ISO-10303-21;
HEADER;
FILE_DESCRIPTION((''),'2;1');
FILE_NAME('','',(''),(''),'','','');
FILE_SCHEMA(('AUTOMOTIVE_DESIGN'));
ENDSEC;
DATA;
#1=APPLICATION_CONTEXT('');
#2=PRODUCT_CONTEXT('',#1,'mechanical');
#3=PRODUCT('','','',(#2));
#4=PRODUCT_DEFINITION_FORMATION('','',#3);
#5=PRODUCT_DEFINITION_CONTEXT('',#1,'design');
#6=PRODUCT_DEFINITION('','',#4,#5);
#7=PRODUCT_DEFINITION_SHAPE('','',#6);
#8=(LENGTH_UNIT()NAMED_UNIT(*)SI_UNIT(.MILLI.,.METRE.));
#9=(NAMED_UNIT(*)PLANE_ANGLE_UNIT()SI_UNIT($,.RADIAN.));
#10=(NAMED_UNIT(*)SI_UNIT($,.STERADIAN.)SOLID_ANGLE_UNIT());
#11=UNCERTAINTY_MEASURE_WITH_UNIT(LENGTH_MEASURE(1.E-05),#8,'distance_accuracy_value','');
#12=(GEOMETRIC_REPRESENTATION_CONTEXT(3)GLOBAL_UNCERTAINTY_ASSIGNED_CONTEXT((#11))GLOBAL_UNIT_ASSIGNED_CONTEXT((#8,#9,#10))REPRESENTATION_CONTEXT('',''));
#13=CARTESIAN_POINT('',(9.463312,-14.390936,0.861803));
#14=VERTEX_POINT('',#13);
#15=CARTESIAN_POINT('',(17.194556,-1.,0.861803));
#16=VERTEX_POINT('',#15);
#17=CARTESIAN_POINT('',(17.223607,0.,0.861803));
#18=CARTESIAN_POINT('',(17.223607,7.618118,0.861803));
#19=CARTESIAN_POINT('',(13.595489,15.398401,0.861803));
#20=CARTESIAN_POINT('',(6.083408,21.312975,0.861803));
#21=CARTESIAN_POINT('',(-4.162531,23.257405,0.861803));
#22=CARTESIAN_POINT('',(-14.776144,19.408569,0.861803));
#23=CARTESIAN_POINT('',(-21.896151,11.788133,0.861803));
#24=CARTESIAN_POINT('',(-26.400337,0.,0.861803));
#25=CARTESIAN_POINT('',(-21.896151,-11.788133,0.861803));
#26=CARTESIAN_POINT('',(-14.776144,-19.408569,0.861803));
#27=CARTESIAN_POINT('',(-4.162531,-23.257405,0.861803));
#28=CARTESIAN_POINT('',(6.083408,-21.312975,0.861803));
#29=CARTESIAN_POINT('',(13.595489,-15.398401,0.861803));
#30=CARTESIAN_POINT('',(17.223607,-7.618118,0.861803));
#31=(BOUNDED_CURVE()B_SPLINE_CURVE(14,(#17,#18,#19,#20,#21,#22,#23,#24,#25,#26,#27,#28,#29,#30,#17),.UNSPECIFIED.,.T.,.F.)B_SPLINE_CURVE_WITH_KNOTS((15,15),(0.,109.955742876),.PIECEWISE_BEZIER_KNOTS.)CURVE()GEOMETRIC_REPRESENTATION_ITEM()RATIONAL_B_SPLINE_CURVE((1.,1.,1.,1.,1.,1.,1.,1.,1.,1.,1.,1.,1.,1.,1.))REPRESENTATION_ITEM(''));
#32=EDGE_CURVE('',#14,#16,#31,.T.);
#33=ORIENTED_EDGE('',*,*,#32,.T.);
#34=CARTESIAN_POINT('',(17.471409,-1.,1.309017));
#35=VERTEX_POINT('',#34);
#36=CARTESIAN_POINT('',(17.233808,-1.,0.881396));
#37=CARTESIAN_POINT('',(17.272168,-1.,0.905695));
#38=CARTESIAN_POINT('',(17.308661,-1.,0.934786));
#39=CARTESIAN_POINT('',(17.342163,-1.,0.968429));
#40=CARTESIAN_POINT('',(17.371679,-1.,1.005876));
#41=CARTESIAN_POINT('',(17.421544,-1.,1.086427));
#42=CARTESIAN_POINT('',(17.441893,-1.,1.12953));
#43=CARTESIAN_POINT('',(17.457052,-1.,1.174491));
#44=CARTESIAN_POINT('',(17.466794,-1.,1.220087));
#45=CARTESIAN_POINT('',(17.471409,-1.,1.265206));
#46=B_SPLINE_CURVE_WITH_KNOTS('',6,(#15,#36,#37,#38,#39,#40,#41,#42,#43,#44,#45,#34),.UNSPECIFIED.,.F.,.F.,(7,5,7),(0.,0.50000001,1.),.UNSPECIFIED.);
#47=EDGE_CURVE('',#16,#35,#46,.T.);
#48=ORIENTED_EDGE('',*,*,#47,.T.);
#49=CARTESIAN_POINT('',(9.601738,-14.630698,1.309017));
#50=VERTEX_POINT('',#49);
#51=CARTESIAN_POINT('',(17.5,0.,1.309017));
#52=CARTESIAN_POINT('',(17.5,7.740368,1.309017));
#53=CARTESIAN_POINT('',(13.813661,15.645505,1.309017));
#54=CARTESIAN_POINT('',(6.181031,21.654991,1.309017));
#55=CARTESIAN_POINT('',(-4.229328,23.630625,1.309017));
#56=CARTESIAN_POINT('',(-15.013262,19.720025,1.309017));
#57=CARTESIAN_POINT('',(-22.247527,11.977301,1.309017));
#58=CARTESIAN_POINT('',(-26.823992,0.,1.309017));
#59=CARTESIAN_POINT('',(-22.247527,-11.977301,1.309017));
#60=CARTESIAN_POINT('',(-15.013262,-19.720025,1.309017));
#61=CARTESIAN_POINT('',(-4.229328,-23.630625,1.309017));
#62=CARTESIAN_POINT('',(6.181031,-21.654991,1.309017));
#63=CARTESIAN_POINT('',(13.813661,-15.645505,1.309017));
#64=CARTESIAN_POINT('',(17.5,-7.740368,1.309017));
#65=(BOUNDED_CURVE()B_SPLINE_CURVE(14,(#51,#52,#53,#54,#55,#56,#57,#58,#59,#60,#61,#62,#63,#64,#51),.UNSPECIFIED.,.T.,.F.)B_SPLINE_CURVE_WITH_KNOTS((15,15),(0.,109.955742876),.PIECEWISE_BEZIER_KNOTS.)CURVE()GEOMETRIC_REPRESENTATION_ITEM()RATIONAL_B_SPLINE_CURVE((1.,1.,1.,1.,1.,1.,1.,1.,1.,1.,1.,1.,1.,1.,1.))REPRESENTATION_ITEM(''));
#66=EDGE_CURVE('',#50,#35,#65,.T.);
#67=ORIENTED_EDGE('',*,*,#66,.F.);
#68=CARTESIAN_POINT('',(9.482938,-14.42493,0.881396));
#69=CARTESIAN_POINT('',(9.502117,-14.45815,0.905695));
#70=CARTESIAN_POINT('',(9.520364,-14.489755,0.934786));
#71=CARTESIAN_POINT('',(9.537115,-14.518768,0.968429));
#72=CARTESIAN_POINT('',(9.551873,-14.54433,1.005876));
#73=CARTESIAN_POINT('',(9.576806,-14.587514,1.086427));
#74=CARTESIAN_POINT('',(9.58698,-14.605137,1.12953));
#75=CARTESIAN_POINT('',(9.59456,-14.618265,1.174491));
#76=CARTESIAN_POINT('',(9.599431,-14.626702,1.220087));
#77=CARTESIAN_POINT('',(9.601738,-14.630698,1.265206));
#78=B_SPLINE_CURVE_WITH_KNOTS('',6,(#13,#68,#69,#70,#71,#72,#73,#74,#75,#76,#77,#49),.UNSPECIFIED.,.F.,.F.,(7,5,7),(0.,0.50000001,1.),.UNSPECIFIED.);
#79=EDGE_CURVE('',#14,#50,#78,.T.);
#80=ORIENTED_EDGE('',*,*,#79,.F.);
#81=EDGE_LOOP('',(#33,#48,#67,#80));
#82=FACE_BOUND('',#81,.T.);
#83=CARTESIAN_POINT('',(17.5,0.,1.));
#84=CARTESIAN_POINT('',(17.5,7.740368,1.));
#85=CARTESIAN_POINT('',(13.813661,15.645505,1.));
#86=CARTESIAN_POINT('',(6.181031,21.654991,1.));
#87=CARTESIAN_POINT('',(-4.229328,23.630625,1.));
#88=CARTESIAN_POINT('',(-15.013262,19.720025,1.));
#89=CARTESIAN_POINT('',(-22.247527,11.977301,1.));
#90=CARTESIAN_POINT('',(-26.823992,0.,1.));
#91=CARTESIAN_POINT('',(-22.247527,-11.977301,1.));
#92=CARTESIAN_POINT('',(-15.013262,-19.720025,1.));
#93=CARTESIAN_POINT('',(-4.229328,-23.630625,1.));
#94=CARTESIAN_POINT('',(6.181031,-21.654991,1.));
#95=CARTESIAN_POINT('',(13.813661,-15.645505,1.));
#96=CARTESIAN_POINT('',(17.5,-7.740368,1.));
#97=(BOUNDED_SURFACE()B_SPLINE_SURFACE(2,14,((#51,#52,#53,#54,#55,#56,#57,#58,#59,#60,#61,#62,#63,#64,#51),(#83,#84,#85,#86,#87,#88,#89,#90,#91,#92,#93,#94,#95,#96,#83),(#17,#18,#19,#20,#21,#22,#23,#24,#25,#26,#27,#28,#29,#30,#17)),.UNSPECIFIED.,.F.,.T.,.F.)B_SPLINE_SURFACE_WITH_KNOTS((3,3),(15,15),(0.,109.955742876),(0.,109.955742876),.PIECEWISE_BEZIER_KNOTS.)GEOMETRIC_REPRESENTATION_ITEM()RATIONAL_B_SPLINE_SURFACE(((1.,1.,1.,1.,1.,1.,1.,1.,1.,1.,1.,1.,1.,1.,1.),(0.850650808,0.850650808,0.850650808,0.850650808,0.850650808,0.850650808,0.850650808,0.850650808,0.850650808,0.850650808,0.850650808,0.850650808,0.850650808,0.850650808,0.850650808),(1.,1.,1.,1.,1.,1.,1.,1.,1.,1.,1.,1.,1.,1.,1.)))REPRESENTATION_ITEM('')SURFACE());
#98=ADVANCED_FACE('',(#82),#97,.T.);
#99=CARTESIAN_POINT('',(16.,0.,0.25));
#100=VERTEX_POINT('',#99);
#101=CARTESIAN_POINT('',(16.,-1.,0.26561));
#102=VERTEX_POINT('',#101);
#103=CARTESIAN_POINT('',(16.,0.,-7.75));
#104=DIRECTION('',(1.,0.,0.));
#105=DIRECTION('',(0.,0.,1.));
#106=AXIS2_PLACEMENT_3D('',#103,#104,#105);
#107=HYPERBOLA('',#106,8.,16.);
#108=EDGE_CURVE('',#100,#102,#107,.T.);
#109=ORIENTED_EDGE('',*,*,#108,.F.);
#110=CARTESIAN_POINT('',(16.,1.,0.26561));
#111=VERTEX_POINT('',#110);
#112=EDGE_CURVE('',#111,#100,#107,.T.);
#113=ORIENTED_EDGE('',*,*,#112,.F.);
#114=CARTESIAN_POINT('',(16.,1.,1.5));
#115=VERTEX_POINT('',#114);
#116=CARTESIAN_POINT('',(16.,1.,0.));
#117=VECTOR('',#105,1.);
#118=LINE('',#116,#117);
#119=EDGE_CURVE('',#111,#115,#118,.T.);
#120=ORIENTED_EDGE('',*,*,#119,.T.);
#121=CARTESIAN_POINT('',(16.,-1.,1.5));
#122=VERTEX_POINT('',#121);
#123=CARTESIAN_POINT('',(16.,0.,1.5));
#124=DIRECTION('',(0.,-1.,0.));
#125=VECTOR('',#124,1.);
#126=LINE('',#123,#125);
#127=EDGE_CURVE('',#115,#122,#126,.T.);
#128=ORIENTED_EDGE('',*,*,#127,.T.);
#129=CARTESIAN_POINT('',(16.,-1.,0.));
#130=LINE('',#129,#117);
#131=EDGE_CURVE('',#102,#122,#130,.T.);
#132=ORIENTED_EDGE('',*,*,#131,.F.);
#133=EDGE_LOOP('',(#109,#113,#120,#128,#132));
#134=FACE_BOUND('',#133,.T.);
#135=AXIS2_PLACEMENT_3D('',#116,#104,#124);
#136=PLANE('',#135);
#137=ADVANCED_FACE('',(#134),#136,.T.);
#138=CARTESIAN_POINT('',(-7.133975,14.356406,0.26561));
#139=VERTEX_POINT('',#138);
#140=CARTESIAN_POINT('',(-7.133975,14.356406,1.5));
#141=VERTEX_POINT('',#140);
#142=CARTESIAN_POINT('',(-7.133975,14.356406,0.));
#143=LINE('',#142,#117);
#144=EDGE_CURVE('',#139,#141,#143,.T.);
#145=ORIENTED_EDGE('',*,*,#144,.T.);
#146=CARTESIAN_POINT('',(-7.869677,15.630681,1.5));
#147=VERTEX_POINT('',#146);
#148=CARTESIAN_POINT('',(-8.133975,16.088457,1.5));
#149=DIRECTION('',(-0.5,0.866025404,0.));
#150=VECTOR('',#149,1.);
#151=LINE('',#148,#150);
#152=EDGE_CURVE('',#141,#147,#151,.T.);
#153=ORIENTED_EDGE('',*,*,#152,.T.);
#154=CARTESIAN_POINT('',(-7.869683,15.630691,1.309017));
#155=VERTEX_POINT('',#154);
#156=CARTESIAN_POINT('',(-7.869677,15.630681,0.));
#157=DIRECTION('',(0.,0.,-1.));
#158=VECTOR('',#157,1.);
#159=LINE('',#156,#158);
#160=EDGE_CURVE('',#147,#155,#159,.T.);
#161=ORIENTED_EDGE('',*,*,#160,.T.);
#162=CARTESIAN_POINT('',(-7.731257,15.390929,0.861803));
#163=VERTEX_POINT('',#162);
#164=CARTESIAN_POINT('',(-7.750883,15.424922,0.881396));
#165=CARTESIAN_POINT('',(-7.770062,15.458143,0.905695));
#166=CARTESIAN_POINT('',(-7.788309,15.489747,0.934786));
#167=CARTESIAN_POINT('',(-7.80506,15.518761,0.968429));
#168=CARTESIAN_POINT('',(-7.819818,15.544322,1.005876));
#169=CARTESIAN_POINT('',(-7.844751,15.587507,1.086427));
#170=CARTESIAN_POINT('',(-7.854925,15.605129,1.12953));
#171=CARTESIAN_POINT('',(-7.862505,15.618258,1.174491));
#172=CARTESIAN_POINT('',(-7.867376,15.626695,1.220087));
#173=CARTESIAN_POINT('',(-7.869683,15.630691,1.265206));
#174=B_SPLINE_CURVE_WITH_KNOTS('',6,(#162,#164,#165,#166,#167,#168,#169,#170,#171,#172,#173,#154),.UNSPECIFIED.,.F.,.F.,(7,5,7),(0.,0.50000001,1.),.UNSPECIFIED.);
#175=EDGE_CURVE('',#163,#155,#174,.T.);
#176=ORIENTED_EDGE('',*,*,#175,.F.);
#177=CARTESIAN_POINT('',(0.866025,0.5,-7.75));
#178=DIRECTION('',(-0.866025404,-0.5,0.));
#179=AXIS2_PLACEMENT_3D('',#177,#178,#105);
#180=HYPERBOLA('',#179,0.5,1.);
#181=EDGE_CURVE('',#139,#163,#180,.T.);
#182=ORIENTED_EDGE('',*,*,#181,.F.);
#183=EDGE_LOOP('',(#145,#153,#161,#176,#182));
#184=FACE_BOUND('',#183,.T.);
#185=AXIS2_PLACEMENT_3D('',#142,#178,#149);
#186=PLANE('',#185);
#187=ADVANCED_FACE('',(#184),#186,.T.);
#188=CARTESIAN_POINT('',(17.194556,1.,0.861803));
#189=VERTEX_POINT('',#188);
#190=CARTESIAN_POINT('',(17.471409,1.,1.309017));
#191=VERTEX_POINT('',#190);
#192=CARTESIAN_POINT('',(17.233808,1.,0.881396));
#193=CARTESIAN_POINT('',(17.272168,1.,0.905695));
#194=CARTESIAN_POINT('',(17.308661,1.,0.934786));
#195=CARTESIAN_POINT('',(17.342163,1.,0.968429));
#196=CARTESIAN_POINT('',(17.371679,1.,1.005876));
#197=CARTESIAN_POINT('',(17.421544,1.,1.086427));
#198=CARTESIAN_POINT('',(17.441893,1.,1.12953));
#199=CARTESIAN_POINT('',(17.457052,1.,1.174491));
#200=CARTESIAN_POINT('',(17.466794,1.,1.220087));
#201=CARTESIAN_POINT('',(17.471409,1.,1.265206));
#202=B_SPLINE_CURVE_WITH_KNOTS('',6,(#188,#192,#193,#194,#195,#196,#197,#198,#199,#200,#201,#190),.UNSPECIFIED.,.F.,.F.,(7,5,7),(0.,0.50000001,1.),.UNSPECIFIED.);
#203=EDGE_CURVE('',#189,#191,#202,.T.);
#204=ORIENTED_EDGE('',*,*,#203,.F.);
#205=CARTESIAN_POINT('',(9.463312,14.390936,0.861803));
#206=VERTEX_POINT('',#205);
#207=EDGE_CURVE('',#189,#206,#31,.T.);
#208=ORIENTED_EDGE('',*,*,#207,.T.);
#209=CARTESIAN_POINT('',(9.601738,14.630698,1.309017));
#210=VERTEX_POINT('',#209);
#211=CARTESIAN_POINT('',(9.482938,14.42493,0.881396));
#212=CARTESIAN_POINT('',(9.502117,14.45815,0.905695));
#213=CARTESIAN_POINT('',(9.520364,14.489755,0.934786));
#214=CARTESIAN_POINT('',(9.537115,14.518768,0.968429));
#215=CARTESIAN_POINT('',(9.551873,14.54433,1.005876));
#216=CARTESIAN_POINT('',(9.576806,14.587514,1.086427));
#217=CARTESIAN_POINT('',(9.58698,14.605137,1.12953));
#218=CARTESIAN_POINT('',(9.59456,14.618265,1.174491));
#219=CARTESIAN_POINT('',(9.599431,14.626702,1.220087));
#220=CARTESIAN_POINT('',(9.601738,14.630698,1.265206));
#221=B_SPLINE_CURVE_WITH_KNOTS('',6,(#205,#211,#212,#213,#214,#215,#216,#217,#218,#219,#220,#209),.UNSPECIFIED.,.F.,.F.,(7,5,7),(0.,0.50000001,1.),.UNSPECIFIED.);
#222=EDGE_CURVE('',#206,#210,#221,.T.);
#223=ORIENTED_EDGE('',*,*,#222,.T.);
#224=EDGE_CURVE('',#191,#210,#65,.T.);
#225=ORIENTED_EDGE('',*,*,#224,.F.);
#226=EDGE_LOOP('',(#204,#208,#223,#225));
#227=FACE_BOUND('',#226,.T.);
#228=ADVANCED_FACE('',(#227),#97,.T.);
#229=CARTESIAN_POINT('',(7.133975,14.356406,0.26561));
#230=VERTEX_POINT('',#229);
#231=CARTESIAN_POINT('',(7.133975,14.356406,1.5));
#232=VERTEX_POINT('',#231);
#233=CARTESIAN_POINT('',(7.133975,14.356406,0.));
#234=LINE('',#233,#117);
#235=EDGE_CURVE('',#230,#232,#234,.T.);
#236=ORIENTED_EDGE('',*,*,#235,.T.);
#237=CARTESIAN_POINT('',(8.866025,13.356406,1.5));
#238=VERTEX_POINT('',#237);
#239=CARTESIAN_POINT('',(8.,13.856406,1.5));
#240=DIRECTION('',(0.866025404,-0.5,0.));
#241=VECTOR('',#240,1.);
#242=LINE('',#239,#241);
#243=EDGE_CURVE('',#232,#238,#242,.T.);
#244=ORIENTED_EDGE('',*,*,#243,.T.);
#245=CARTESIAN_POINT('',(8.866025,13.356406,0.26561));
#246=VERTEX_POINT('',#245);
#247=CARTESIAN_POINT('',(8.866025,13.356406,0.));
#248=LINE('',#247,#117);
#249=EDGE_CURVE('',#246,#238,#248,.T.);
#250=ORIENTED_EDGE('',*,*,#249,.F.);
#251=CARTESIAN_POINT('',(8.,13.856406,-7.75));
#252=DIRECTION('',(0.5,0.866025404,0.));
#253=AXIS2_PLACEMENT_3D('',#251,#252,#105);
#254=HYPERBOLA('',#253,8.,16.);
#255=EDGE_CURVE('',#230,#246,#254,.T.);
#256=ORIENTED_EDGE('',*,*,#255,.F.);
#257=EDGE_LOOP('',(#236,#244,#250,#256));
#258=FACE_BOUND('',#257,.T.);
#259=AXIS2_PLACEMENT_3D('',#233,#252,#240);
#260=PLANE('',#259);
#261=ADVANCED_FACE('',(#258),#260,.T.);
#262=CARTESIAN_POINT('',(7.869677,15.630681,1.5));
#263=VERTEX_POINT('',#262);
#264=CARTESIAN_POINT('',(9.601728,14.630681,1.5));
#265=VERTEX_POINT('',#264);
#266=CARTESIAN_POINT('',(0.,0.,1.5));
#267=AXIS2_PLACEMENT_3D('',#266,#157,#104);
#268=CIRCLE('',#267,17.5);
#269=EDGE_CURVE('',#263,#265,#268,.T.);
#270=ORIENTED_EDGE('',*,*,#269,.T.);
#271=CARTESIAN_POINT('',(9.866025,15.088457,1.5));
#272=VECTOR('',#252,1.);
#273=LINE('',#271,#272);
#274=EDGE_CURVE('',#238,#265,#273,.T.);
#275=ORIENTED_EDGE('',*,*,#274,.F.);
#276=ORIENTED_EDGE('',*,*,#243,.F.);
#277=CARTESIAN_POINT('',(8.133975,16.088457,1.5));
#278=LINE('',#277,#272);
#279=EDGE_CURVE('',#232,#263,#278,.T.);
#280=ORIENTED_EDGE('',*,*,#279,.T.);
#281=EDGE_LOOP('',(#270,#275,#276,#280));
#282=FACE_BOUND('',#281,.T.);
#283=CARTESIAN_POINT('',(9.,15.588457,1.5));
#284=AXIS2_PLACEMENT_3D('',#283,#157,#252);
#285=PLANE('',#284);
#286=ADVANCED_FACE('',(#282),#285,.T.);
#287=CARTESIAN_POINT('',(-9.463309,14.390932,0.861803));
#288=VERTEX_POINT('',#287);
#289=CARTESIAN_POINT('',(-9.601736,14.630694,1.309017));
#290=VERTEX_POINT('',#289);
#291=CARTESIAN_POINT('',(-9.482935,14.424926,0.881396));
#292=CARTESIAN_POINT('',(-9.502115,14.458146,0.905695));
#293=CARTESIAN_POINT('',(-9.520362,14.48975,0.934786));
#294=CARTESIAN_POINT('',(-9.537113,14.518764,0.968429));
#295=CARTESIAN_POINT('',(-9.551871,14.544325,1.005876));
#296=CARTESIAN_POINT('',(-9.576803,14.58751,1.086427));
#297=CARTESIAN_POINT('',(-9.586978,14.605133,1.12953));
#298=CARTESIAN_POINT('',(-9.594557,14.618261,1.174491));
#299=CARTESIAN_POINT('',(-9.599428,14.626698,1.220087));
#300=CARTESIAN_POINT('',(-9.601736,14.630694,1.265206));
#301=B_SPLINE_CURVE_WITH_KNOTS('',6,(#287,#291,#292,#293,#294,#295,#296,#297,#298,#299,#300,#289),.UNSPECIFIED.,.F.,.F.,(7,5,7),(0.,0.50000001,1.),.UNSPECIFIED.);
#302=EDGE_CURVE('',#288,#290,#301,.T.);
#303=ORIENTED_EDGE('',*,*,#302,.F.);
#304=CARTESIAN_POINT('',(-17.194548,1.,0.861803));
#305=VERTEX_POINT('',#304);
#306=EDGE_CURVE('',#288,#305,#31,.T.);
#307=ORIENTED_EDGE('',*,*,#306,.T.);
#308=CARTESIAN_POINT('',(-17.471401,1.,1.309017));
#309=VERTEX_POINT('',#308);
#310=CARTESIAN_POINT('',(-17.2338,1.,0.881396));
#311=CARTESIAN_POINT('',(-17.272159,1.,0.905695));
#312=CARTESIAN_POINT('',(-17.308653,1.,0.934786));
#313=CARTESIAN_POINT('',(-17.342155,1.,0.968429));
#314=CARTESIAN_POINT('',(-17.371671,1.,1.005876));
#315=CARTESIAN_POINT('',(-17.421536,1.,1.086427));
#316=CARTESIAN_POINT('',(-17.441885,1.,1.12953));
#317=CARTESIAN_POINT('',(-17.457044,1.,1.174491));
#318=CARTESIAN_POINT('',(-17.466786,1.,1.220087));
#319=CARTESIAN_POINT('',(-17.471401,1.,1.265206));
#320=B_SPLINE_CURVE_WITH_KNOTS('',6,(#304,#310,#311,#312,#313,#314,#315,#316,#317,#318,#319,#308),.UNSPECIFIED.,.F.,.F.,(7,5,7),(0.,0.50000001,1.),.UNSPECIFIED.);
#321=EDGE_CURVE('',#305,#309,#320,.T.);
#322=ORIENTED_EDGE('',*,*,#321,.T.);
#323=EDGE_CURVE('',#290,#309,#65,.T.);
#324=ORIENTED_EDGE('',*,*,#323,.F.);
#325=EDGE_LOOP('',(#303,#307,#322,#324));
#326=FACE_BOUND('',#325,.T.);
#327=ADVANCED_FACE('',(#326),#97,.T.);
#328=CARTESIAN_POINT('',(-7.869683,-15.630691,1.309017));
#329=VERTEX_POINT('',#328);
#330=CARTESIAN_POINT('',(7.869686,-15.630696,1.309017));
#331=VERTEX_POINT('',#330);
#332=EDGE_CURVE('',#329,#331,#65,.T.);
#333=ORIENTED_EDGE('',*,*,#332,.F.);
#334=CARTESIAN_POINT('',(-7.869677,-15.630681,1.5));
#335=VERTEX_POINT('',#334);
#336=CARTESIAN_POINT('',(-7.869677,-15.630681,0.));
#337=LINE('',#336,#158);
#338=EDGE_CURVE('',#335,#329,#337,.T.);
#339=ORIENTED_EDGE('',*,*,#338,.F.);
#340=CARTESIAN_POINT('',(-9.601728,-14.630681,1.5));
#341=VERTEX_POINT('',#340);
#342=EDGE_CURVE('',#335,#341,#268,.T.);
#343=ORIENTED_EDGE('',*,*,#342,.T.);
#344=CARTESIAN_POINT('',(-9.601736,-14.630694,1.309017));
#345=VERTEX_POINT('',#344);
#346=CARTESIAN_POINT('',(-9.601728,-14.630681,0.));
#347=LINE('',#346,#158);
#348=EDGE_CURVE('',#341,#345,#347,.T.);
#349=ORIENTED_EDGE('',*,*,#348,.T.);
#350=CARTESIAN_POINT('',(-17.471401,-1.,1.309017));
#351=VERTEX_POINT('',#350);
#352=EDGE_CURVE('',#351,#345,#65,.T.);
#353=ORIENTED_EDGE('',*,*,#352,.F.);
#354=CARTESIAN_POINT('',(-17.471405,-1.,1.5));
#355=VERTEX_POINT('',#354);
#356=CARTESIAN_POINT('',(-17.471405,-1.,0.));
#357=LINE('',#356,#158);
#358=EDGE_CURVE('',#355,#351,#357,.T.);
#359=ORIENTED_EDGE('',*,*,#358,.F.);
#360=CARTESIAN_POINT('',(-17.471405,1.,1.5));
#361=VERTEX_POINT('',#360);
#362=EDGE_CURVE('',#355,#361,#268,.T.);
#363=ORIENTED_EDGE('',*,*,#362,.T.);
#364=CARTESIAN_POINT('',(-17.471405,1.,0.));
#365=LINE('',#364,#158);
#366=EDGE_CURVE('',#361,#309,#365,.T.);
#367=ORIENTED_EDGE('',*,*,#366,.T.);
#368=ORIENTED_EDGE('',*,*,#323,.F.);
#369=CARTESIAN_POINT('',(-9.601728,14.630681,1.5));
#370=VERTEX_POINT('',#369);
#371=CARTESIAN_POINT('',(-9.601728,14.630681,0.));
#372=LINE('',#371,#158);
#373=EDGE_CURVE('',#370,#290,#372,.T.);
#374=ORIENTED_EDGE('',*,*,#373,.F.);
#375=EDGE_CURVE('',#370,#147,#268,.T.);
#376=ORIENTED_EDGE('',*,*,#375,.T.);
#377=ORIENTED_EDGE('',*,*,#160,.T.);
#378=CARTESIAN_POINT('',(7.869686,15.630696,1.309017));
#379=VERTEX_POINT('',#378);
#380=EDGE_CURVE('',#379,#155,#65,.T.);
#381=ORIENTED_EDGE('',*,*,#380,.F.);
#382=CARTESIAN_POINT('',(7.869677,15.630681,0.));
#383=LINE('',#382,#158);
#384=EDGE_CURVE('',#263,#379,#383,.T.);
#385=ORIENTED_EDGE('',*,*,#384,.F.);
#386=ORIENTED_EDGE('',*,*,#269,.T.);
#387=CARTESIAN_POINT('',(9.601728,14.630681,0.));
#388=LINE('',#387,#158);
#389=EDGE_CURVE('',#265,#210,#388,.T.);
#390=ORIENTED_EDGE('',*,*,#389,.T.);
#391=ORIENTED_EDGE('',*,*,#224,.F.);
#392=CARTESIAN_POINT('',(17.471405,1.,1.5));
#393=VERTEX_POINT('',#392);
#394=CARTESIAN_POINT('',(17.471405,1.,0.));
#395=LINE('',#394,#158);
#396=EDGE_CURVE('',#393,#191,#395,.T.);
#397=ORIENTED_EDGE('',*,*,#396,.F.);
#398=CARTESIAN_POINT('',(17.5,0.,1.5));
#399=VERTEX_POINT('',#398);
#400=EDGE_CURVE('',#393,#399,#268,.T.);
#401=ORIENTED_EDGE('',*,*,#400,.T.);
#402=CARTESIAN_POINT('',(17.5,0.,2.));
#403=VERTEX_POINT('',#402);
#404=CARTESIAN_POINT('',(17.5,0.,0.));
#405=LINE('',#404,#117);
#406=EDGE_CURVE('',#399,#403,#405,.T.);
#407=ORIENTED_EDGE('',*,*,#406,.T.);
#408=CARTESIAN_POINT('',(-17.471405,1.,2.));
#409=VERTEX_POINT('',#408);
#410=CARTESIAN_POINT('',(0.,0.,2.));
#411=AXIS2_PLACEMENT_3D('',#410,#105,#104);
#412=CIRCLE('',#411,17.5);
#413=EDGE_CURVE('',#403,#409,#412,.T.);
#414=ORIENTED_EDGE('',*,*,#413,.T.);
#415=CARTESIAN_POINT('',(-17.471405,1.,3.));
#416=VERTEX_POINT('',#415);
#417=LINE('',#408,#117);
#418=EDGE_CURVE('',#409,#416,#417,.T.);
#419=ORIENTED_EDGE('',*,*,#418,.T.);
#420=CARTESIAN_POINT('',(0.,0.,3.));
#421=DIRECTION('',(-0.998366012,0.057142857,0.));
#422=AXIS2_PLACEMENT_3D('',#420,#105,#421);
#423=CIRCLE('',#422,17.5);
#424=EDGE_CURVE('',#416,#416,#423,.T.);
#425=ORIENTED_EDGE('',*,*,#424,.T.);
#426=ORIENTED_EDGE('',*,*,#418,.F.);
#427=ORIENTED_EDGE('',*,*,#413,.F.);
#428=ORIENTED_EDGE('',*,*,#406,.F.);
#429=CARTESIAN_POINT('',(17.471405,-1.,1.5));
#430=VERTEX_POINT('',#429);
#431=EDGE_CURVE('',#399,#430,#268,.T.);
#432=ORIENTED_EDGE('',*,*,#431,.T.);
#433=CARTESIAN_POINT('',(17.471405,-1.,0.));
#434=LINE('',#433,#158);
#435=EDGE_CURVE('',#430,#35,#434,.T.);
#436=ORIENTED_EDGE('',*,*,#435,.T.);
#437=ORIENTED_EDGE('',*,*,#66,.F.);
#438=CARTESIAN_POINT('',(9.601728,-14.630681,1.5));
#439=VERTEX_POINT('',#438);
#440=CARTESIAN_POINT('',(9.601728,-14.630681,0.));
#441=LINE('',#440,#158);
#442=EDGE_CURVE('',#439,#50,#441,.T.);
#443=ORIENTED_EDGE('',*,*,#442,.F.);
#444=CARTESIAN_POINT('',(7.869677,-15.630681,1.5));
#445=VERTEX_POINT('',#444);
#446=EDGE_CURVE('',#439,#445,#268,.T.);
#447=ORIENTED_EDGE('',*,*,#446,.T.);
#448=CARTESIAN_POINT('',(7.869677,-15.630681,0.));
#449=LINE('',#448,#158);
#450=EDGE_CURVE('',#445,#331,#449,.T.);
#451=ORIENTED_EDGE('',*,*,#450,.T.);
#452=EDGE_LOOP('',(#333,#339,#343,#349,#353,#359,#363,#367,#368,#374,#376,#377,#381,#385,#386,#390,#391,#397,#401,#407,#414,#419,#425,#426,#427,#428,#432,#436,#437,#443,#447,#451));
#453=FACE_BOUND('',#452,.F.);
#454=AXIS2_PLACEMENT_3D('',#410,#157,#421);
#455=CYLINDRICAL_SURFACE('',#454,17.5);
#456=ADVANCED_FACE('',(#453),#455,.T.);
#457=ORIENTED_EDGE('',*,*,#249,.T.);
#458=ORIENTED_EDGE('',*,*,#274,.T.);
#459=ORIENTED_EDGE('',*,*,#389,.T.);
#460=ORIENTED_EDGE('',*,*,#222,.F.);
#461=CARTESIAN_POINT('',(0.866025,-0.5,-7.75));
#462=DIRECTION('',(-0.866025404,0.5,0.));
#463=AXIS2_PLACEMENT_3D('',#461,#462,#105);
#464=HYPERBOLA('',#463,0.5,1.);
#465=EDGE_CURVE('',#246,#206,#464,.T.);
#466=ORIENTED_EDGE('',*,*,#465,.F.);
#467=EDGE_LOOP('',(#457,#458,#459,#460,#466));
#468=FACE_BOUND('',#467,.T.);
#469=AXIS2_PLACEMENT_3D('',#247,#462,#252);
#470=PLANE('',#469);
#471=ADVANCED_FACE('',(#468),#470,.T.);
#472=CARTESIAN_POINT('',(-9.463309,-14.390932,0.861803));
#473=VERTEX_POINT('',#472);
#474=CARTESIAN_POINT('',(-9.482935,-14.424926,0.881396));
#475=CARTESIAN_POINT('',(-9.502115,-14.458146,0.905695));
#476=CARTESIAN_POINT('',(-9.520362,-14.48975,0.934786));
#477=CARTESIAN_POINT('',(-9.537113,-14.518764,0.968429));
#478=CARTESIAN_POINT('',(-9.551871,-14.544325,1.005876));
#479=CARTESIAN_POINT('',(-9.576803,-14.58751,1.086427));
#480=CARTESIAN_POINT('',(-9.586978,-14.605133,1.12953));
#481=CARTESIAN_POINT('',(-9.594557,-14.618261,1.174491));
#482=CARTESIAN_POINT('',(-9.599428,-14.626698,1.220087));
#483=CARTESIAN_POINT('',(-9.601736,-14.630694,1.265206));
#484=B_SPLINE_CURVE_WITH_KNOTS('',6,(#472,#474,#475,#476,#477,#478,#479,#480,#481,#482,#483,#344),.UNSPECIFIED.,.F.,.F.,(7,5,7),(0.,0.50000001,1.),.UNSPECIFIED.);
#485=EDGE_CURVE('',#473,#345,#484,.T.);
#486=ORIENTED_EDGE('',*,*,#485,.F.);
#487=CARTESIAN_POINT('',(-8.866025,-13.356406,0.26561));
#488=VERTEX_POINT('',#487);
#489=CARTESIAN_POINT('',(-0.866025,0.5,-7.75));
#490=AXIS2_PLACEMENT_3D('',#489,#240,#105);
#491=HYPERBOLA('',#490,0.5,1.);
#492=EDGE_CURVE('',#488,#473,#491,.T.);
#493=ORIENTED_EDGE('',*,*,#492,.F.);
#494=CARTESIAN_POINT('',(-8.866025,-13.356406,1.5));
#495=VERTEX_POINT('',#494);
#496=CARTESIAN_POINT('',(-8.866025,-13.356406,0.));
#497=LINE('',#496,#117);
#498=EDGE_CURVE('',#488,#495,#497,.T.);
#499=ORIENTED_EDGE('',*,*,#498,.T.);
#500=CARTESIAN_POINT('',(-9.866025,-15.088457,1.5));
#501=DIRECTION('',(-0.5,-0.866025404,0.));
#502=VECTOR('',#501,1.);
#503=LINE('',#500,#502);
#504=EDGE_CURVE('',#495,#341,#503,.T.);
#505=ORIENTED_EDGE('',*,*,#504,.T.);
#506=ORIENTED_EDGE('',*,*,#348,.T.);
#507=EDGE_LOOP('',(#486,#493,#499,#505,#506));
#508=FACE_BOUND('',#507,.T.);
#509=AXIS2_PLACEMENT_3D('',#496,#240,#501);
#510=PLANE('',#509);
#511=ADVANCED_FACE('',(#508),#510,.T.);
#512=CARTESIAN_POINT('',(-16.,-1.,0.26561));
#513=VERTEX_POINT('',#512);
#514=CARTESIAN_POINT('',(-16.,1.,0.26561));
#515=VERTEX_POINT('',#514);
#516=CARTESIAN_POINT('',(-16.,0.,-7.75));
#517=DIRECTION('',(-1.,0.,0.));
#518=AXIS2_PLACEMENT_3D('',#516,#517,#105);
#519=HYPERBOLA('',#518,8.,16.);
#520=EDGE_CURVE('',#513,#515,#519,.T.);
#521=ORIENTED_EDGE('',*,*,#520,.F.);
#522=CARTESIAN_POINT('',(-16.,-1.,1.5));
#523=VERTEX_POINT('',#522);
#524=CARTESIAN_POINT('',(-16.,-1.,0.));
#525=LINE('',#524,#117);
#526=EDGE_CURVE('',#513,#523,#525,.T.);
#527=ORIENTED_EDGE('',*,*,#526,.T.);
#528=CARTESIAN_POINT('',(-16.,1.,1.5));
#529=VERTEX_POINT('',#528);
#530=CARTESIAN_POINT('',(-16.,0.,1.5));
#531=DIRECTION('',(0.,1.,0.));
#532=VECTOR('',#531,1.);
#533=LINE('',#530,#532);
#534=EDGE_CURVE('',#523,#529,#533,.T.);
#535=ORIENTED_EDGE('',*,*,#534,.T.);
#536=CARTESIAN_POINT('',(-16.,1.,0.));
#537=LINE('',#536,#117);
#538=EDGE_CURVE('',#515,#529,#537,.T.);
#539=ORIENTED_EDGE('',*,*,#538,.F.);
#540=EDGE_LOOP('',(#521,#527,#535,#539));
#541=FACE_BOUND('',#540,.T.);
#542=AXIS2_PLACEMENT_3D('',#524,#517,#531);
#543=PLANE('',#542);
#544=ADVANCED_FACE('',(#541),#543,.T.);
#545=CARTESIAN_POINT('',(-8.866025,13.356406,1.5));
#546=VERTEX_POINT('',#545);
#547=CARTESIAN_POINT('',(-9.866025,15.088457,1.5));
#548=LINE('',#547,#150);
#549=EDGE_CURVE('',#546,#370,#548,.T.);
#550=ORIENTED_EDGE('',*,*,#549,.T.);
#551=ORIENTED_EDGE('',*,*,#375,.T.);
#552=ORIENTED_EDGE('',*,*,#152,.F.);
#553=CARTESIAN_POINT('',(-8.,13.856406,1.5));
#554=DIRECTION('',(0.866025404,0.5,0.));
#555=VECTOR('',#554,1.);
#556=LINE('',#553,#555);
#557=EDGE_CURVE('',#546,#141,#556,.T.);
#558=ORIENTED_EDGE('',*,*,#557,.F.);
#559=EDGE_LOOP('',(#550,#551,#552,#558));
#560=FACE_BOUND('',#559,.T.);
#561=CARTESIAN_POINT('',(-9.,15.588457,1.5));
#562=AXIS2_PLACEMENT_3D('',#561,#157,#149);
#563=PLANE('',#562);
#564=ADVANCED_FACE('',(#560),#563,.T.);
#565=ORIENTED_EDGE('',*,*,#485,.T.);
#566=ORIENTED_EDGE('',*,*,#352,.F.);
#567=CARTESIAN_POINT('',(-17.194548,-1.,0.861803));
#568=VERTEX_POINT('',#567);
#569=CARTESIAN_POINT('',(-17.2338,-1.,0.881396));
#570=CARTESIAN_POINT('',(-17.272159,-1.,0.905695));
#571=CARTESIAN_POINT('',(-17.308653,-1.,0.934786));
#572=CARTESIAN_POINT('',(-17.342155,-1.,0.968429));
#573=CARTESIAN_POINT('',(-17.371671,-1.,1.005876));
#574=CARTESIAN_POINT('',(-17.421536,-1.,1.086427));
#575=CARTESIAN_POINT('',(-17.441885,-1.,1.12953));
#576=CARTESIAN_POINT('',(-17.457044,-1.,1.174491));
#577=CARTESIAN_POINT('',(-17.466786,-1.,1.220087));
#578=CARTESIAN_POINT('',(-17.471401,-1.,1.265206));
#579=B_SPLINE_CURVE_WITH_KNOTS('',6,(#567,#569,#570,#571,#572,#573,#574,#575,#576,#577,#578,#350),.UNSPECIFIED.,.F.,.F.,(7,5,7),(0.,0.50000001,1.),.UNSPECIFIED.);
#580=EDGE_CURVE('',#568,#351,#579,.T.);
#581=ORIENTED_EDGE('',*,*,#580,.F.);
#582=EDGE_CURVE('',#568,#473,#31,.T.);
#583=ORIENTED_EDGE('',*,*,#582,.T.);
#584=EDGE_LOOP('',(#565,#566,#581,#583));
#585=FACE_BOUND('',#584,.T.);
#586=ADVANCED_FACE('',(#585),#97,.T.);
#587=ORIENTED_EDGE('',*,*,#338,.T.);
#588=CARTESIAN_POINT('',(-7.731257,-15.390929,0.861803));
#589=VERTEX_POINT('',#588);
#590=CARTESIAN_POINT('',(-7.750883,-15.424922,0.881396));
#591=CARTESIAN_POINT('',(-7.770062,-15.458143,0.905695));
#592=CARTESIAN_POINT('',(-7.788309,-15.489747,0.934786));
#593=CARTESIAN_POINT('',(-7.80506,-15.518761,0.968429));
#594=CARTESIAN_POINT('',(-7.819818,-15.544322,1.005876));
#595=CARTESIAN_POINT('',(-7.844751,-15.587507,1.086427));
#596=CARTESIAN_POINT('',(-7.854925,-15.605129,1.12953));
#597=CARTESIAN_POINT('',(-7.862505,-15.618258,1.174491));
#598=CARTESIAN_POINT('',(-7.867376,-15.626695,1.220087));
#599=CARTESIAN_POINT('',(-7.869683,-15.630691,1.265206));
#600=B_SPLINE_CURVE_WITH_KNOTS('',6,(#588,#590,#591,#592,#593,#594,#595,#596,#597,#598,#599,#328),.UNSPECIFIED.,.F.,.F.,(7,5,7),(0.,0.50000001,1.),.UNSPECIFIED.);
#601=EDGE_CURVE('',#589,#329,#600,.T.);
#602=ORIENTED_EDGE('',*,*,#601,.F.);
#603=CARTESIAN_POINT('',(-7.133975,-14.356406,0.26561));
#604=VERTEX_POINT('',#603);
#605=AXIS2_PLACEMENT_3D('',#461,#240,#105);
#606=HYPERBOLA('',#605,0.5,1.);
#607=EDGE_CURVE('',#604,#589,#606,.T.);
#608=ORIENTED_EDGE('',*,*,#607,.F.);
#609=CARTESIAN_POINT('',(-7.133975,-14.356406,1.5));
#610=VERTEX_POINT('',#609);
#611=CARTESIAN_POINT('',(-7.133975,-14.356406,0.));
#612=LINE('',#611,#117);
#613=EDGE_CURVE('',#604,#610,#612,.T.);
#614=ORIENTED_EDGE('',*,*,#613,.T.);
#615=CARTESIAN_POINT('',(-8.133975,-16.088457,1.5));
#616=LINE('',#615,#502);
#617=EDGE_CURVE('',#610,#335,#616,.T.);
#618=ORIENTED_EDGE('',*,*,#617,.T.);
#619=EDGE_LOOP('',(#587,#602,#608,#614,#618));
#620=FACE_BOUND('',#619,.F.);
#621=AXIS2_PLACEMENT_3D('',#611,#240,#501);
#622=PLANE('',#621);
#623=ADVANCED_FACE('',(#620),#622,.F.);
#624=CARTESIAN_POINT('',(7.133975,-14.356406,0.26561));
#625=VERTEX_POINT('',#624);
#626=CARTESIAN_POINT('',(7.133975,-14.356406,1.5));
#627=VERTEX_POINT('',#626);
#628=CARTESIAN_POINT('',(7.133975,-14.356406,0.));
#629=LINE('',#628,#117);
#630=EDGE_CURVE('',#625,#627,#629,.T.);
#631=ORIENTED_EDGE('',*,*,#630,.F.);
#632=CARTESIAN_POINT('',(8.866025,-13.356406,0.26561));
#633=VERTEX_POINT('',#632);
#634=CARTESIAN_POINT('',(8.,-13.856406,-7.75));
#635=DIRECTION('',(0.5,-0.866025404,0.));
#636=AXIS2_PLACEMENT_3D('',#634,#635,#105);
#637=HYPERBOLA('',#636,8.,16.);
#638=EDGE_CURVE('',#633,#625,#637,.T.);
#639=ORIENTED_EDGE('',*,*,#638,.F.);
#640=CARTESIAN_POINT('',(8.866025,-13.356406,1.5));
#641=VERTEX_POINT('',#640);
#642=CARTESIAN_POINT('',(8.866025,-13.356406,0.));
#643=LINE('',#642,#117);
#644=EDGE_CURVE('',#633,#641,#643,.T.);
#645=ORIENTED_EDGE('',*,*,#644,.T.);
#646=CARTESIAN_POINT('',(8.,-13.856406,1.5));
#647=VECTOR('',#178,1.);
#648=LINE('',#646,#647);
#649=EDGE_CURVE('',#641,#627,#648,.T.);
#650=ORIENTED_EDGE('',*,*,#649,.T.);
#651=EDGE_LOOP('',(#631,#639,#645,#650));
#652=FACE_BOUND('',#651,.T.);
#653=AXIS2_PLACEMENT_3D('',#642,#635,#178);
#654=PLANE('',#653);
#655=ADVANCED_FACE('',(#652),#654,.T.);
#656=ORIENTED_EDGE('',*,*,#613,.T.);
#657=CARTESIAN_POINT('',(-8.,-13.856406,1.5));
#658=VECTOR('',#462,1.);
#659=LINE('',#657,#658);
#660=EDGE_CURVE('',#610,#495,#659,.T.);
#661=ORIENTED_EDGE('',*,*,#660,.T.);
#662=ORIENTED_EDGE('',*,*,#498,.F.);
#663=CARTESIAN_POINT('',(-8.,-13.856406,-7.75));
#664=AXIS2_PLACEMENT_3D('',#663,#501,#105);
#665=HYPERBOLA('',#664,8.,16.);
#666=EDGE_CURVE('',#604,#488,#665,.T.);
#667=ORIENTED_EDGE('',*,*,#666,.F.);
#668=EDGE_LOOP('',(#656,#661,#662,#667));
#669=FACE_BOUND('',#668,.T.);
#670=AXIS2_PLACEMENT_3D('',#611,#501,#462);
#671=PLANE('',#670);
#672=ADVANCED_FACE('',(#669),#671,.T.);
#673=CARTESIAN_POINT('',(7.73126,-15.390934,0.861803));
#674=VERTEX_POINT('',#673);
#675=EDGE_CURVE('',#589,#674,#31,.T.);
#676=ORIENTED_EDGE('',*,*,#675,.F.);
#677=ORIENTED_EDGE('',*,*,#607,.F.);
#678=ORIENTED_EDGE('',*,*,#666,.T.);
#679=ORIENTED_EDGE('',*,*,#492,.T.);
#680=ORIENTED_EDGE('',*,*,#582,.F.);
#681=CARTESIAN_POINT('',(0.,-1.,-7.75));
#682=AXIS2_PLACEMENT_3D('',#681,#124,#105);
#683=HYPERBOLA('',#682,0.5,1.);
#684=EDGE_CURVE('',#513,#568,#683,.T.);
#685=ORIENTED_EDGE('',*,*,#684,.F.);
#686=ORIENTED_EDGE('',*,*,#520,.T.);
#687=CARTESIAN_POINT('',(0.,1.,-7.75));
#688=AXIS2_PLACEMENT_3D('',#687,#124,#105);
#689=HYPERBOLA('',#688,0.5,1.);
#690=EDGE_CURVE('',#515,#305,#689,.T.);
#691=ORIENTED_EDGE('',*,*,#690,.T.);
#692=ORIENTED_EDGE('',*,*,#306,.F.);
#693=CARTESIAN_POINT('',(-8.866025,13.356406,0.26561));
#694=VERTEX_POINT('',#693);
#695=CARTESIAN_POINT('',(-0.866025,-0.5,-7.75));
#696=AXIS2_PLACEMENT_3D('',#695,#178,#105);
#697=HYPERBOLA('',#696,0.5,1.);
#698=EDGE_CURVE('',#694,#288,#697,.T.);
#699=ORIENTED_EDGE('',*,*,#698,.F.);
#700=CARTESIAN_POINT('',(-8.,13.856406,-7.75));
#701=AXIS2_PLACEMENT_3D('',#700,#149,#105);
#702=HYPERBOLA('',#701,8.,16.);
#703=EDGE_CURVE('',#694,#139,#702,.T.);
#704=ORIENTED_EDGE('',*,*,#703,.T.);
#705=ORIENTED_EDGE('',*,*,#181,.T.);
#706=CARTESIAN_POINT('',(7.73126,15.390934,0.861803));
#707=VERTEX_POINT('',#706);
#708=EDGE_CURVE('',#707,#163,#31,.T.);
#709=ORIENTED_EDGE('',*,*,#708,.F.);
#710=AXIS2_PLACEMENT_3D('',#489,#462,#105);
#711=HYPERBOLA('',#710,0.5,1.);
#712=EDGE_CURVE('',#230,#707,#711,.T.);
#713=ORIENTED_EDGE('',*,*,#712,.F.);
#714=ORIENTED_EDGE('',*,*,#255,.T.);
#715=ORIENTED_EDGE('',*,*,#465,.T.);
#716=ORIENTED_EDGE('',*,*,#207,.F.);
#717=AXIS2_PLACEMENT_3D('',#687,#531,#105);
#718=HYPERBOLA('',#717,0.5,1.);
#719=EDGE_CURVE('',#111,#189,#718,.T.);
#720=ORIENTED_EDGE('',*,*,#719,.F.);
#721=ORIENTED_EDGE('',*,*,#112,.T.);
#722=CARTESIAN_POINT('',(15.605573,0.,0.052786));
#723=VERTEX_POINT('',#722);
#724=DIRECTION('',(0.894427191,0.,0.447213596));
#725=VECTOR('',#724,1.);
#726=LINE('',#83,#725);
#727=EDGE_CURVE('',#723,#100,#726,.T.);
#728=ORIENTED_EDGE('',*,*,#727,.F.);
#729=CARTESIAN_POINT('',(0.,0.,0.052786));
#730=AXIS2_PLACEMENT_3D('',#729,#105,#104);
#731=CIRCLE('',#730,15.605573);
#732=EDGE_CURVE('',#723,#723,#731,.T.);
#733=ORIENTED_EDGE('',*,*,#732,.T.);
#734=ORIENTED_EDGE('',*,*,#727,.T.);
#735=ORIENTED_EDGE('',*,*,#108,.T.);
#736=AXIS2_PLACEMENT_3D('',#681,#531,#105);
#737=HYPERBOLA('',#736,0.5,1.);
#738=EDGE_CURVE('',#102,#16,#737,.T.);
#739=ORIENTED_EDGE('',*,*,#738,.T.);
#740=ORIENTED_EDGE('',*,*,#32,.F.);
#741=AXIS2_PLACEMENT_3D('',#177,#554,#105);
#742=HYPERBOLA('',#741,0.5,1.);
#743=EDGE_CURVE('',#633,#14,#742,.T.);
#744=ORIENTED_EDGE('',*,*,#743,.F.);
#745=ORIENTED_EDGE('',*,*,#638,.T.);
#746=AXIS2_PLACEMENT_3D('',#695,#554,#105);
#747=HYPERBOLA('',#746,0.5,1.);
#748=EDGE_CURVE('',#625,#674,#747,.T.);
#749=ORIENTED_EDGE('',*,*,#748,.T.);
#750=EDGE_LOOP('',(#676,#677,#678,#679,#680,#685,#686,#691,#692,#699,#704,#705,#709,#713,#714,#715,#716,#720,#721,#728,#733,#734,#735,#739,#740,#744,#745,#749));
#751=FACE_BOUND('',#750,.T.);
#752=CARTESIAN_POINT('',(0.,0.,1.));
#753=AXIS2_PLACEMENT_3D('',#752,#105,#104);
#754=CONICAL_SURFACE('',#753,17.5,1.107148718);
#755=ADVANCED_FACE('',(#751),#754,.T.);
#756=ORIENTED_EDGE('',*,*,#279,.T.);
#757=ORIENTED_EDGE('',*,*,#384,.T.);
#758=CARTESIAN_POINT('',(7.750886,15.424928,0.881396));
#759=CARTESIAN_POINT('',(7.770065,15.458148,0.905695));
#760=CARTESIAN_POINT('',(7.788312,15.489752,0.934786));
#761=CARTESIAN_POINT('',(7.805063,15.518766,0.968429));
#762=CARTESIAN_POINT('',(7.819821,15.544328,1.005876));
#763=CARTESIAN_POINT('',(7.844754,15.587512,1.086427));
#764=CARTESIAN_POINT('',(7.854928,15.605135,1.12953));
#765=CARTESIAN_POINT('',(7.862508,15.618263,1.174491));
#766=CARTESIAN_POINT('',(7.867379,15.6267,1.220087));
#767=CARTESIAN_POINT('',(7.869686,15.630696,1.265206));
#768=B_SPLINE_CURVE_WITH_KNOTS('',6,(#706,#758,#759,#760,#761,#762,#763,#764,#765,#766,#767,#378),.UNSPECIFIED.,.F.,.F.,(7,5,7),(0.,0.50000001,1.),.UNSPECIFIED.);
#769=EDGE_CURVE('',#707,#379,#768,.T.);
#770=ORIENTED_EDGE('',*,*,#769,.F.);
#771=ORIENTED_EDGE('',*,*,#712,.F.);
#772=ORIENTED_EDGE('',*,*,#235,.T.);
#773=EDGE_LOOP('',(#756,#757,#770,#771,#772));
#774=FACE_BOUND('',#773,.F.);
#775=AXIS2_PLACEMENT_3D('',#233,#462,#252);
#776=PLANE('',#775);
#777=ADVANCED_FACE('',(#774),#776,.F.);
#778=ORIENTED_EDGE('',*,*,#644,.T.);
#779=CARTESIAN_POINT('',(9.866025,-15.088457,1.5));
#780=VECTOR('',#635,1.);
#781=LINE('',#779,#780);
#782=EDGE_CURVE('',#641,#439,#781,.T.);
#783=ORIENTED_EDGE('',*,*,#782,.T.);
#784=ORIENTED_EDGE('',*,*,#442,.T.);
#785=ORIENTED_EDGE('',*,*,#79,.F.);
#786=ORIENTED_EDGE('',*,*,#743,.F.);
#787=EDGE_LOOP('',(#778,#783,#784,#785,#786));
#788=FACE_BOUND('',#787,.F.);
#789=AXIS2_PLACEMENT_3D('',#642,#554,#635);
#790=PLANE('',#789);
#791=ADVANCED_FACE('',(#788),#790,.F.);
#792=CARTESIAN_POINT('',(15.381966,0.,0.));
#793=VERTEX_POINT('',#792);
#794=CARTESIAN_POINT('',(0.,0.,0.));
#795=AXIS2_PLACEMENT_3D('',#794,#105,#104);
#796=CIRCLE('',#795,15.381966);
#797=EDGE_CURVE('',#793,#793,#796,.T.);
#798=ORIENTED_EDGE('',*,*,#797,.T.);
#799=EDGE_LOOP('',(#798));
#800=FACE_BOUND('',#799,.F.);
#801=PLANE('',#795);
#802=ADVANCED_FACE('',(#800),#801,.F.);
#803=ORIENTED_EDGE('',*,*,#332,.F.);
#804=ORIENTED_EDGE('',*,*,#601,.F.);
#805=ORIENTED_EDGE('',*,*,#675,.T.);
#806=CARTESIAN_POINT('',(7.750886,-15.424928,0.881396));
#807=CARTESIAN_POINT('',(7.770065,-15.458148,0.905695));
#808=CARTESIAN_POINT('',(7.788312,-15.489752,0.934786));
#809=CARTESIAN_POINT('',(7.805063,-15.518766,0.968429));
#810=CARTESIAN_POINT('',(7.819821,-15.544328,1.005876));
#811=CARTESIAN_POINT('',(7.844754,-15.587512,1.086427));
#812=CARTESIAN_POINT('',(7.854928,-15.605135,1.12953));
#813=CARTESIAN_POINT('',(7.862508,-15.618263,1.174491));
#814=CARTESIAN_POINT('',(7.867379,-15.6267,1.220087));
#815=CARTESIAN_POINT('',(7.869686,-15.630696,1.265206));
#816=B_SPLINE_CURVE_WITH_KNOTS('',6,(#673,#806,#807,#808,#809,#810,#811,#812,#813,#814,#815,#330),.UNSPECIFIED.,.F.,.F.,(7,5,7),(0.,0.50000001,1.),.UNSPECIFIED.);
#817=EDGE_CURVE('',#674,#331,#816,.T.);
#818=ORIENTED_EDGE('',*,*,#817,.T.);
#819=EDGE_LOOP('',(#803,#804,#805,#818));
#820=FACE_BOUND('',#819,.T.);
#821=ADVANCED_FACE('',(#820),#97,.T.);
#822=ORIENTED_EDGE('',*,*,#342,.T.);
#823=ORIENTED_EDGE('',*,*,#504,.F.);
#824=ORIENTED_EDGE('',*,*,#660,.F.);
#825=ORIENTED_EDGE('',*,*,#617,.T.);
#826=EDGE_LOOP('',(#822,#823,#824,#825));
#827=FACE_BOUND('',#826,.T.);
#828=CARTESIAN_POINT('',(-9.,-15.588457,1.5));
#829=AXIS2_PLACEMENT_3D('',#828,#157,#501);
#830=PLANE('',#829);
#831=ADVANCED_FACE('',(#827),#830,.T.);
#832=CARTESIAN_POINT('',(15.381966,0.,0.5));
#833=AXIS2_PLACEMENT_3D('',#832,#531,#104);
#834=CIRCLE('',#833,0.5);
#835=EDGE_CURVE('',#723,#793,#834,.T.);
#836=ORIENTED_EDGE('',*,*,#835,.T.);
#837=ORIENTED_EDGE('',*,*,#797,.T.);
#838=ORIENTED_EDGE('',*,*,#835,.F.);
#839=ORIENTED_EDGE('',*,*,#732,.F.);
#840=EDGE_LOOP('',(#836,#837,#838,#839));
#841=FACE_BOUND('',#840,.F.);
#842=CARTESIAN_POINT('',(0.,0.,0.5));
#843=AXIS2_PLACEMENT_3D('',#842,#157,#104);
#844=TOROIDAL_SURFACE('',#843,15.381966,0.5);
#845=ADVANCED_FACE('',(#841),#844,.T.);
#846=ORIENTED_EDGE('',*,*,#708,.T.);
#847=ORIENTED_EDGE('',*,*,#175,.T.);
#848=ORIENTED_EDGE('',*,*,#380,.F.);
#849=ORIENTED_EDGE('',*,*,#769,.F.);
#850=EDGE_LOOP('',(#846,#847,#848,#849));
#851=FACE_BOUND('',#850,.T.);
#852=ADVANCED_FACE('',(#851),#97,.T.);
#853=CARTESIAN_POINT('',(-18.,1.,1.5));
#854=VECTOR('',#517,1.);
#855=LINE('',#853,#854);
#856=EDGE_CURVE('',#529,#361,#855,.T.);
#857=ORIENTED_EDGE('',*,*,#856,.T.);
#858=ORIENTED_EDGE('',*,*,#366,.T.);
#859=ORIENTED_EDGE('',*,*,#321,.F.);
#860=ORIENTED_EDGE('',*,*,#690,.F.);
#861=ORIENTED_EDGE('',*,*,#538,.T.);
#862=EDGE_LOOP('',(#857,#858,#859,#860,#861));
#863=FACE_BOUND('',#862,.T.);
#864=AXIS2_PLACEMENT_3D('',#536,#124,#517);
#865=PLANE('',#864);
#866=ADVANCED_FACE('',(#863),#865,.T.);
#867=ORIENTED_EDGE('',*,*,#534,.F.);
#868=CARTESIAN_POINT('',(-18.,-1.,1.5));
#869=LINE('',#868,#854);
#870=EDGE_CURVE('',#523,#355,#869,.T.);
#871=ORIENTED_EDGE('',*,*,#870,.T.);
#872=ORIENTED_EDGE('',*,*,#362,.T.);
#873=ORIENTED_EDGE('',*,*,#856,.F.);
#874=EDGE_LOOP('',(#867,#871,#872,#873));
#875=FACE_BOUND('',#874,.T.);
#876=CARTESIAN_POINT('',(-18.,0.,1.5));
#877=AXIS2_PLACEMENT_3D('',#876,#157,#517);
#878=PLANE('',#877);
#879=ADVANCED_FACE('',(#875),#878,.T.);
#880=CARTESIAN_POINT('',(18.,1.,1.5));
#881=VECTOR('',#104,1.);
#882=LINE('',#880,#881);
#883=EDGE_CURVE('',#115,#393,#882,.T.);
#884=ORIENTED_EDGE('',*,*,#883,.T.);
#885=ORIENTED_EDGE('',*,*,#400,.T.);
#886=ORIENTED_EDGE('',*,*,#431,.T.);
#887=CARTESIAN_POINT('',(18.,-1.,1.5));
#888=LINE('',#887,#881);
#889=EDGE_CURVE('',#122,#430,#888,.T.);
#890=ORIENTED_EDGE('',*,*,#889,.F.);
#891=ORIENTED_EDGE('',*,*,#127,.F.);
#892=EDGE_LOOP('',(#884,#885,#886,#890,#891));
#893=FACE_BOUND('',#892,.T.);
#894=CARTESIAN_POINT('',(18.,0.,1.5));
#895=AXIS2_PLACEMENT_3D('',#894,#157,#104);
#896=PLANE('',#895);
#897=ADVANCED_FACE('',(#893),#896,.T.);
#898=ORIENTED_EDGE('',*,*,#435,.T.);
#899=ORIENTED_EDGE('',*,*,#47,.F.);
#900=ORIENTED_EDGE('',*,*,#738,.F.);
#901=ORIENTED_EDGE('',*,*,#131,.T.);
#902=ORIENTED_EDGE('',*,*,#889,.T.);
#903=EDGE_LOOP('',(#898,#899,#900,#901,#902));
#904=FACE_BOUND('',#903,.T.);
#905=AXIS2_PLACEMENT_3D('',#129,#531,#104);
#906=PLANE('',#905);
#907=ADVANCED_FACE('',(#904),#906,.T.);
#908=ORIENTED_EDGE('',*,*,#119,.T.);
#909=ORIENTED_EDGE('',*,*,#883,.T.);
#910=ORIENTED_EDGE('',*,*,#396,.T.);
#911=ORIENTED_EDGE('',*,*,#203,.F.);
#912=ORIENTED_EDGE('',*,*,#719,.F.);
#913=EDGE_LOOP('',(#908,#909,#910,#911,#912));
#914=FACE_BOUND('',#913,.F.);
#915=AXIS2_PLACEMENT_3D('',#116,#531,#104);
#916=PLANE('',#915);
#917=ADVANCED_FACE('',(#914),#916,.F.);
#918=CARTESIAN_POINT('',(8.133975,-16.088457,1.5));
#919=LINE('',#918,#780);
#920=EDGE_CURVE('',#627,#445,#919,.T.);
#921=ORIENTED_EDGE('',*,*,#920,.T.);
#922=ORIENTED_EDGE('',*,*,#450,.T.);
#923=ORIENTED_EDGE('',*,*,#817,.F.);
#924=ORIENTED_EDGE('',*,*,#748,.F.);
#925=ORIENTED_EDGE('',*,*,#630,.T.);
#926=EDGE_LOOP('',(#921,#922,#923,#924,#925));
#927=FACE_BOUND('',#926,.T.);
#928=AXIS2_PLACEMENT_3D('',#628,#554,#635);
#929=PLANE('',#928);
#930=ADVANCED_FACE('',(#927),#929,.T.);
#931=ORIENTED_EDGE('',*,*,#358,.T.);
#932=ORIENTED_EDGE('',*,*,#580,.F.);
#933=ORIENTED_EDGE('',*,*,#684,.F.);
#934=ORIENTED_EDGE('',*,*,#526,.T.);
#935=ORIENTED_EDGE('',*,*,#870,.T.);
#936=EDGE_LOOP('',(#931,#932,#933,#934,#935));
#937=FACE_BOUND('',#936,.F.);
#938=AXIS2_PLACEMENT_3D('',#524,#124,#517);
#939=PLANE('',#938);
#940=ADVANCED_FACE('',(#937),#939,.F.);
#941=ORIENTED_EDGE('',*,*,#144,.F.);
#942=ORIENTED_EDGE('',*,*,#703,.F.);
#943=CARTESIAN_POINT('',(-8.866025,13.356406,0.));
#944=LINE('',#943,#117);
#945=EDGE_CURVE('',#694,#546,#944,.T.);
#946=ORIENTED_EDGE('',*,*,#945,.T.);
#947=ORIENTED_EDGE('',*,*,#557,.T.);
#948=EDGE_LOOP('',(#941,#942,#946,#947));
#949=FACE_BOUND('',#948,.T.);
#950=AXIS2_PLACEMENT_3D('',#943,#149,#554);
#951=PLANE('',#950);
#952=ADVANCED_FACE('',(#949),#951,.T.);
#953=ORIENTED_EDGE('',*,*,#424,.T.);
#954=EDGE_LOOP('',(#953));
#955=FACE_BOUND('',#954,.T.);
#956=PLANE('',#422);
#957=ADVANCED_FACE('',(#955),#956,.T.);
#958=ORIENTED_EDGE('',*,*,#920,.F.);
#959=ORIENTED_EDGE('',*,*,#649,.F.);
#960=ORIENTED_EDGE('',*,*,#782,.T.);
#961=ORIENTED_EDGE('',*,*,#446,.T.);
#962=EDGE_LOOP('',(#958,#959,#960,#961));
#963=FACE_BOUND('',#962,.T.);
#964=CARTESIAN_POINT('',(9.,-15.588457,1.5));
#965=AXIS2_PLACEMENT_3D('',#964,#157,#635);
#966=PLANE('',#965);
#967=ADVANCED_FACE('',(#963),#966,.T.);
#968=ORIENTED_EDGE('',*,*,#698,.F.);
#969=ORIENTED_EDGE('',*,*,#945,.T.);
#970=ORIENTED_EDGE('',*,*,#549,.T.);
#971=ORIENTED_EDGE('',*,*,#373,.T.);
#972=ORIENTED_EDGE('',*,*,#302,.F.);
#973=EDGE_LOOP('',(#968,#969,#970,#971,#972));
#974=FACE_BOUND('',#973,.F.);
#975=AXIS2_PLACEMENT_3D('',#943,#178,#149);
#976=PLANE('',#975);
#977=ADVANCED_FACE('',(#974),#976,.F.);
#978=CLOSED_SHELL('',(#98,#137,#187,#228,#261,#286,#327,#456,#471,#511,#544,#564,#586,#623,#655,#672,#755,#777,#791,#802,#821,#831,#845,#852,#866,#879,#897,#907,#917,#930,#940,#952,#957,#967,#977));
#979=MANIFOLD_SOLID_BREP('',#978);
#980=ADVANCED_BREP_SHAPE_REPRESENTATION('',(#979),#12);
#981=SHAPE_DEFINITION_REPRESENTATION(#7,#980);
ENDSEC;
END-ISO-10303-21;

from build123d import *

# Parameters (mm, degrees)
SKETCH1_R           = 17.5
BASE_EXTRUDE_DEPTH  = 2
CHAMFER1_SIZE       = 2
CHAMFER1_SIZE2      = 1
FILLET8_R           = 0.5
SKETCH2_W           = 4
SKETCH2_H           = 2
CUT_EXTRUDE1_DEPTH  = 1.5
CIRPATTERN1_COUNT   = 6
SKETCH3_R           = 17.5
BOSS_EXTRUDE1_DEPTH = 1


with BuildPart() as part:
    # Sketch1 → Base-Extrude (new body)
    with BuildSketch(Plane.XY):
        Circle(SKETCH1_R)
    extrude(amount=BASE_EXTRUDE_DEPTH)

    # Chamfer1
    chamfer1_edges = [part.edges().sort_by_distance(p)[0] for p in [
        (-17.5, 0, 0),
    ]]
    chamfer1_side = [part.faces().sort_by_distance(p)[0] for p in [
        (0, 0, 0),
    ]]
    chamfer(chamfer1_edges, length=CHAMFER1_SIZE, length2=CHAMFER1_SIZE2, reference=chamfer1_side[0])

    # Fillet8
    fillet8_edges = [part.edges().sort_by_distance(p)[0] for p in [
        (-17.5, 0, 1),
        (-15.5, 0, 0),
    ]]
    fillet(fillet8_edges, radius=FILLET8_R)

    # Sketch2 → Cut-Extrude1 (cut)
    with BuildSketch(Plane(origin=(0, 0, 0), x_dir=(-1, 0, 0), z_dir=(0, 0, -1))):
        with Locations((18, 0)):
            Rectangle(SKETCH2_W, SKETCH2_H)
    cut_extrude1 = extrude(amount=-CUT_EXTRUDE1_DEPTH, mode=Mode.SUBTRACT)

    # CirPattern1: Cut-Extrude1 ×6 about axis
    cirpattern1_axis = Axis((0, 0, 0), (0, 0, -1))
    for i in range(1, CIRPATTERN1_COUNT):
        add(cut_extrude1.rotate(cirpattern1_axis, i * 360 / CIRPATTERN1_COUNT), mode=Mode.SUBTRACT)

    # Sketch3 → Boss-Extrude1 (add)
    with BuildSketch(Plane.XY.offset(2)):
        Circle(SKETCH3_R)
    extrude(amount=BOSS_EXTRUDE1_DEPTH)


solid = part.part
